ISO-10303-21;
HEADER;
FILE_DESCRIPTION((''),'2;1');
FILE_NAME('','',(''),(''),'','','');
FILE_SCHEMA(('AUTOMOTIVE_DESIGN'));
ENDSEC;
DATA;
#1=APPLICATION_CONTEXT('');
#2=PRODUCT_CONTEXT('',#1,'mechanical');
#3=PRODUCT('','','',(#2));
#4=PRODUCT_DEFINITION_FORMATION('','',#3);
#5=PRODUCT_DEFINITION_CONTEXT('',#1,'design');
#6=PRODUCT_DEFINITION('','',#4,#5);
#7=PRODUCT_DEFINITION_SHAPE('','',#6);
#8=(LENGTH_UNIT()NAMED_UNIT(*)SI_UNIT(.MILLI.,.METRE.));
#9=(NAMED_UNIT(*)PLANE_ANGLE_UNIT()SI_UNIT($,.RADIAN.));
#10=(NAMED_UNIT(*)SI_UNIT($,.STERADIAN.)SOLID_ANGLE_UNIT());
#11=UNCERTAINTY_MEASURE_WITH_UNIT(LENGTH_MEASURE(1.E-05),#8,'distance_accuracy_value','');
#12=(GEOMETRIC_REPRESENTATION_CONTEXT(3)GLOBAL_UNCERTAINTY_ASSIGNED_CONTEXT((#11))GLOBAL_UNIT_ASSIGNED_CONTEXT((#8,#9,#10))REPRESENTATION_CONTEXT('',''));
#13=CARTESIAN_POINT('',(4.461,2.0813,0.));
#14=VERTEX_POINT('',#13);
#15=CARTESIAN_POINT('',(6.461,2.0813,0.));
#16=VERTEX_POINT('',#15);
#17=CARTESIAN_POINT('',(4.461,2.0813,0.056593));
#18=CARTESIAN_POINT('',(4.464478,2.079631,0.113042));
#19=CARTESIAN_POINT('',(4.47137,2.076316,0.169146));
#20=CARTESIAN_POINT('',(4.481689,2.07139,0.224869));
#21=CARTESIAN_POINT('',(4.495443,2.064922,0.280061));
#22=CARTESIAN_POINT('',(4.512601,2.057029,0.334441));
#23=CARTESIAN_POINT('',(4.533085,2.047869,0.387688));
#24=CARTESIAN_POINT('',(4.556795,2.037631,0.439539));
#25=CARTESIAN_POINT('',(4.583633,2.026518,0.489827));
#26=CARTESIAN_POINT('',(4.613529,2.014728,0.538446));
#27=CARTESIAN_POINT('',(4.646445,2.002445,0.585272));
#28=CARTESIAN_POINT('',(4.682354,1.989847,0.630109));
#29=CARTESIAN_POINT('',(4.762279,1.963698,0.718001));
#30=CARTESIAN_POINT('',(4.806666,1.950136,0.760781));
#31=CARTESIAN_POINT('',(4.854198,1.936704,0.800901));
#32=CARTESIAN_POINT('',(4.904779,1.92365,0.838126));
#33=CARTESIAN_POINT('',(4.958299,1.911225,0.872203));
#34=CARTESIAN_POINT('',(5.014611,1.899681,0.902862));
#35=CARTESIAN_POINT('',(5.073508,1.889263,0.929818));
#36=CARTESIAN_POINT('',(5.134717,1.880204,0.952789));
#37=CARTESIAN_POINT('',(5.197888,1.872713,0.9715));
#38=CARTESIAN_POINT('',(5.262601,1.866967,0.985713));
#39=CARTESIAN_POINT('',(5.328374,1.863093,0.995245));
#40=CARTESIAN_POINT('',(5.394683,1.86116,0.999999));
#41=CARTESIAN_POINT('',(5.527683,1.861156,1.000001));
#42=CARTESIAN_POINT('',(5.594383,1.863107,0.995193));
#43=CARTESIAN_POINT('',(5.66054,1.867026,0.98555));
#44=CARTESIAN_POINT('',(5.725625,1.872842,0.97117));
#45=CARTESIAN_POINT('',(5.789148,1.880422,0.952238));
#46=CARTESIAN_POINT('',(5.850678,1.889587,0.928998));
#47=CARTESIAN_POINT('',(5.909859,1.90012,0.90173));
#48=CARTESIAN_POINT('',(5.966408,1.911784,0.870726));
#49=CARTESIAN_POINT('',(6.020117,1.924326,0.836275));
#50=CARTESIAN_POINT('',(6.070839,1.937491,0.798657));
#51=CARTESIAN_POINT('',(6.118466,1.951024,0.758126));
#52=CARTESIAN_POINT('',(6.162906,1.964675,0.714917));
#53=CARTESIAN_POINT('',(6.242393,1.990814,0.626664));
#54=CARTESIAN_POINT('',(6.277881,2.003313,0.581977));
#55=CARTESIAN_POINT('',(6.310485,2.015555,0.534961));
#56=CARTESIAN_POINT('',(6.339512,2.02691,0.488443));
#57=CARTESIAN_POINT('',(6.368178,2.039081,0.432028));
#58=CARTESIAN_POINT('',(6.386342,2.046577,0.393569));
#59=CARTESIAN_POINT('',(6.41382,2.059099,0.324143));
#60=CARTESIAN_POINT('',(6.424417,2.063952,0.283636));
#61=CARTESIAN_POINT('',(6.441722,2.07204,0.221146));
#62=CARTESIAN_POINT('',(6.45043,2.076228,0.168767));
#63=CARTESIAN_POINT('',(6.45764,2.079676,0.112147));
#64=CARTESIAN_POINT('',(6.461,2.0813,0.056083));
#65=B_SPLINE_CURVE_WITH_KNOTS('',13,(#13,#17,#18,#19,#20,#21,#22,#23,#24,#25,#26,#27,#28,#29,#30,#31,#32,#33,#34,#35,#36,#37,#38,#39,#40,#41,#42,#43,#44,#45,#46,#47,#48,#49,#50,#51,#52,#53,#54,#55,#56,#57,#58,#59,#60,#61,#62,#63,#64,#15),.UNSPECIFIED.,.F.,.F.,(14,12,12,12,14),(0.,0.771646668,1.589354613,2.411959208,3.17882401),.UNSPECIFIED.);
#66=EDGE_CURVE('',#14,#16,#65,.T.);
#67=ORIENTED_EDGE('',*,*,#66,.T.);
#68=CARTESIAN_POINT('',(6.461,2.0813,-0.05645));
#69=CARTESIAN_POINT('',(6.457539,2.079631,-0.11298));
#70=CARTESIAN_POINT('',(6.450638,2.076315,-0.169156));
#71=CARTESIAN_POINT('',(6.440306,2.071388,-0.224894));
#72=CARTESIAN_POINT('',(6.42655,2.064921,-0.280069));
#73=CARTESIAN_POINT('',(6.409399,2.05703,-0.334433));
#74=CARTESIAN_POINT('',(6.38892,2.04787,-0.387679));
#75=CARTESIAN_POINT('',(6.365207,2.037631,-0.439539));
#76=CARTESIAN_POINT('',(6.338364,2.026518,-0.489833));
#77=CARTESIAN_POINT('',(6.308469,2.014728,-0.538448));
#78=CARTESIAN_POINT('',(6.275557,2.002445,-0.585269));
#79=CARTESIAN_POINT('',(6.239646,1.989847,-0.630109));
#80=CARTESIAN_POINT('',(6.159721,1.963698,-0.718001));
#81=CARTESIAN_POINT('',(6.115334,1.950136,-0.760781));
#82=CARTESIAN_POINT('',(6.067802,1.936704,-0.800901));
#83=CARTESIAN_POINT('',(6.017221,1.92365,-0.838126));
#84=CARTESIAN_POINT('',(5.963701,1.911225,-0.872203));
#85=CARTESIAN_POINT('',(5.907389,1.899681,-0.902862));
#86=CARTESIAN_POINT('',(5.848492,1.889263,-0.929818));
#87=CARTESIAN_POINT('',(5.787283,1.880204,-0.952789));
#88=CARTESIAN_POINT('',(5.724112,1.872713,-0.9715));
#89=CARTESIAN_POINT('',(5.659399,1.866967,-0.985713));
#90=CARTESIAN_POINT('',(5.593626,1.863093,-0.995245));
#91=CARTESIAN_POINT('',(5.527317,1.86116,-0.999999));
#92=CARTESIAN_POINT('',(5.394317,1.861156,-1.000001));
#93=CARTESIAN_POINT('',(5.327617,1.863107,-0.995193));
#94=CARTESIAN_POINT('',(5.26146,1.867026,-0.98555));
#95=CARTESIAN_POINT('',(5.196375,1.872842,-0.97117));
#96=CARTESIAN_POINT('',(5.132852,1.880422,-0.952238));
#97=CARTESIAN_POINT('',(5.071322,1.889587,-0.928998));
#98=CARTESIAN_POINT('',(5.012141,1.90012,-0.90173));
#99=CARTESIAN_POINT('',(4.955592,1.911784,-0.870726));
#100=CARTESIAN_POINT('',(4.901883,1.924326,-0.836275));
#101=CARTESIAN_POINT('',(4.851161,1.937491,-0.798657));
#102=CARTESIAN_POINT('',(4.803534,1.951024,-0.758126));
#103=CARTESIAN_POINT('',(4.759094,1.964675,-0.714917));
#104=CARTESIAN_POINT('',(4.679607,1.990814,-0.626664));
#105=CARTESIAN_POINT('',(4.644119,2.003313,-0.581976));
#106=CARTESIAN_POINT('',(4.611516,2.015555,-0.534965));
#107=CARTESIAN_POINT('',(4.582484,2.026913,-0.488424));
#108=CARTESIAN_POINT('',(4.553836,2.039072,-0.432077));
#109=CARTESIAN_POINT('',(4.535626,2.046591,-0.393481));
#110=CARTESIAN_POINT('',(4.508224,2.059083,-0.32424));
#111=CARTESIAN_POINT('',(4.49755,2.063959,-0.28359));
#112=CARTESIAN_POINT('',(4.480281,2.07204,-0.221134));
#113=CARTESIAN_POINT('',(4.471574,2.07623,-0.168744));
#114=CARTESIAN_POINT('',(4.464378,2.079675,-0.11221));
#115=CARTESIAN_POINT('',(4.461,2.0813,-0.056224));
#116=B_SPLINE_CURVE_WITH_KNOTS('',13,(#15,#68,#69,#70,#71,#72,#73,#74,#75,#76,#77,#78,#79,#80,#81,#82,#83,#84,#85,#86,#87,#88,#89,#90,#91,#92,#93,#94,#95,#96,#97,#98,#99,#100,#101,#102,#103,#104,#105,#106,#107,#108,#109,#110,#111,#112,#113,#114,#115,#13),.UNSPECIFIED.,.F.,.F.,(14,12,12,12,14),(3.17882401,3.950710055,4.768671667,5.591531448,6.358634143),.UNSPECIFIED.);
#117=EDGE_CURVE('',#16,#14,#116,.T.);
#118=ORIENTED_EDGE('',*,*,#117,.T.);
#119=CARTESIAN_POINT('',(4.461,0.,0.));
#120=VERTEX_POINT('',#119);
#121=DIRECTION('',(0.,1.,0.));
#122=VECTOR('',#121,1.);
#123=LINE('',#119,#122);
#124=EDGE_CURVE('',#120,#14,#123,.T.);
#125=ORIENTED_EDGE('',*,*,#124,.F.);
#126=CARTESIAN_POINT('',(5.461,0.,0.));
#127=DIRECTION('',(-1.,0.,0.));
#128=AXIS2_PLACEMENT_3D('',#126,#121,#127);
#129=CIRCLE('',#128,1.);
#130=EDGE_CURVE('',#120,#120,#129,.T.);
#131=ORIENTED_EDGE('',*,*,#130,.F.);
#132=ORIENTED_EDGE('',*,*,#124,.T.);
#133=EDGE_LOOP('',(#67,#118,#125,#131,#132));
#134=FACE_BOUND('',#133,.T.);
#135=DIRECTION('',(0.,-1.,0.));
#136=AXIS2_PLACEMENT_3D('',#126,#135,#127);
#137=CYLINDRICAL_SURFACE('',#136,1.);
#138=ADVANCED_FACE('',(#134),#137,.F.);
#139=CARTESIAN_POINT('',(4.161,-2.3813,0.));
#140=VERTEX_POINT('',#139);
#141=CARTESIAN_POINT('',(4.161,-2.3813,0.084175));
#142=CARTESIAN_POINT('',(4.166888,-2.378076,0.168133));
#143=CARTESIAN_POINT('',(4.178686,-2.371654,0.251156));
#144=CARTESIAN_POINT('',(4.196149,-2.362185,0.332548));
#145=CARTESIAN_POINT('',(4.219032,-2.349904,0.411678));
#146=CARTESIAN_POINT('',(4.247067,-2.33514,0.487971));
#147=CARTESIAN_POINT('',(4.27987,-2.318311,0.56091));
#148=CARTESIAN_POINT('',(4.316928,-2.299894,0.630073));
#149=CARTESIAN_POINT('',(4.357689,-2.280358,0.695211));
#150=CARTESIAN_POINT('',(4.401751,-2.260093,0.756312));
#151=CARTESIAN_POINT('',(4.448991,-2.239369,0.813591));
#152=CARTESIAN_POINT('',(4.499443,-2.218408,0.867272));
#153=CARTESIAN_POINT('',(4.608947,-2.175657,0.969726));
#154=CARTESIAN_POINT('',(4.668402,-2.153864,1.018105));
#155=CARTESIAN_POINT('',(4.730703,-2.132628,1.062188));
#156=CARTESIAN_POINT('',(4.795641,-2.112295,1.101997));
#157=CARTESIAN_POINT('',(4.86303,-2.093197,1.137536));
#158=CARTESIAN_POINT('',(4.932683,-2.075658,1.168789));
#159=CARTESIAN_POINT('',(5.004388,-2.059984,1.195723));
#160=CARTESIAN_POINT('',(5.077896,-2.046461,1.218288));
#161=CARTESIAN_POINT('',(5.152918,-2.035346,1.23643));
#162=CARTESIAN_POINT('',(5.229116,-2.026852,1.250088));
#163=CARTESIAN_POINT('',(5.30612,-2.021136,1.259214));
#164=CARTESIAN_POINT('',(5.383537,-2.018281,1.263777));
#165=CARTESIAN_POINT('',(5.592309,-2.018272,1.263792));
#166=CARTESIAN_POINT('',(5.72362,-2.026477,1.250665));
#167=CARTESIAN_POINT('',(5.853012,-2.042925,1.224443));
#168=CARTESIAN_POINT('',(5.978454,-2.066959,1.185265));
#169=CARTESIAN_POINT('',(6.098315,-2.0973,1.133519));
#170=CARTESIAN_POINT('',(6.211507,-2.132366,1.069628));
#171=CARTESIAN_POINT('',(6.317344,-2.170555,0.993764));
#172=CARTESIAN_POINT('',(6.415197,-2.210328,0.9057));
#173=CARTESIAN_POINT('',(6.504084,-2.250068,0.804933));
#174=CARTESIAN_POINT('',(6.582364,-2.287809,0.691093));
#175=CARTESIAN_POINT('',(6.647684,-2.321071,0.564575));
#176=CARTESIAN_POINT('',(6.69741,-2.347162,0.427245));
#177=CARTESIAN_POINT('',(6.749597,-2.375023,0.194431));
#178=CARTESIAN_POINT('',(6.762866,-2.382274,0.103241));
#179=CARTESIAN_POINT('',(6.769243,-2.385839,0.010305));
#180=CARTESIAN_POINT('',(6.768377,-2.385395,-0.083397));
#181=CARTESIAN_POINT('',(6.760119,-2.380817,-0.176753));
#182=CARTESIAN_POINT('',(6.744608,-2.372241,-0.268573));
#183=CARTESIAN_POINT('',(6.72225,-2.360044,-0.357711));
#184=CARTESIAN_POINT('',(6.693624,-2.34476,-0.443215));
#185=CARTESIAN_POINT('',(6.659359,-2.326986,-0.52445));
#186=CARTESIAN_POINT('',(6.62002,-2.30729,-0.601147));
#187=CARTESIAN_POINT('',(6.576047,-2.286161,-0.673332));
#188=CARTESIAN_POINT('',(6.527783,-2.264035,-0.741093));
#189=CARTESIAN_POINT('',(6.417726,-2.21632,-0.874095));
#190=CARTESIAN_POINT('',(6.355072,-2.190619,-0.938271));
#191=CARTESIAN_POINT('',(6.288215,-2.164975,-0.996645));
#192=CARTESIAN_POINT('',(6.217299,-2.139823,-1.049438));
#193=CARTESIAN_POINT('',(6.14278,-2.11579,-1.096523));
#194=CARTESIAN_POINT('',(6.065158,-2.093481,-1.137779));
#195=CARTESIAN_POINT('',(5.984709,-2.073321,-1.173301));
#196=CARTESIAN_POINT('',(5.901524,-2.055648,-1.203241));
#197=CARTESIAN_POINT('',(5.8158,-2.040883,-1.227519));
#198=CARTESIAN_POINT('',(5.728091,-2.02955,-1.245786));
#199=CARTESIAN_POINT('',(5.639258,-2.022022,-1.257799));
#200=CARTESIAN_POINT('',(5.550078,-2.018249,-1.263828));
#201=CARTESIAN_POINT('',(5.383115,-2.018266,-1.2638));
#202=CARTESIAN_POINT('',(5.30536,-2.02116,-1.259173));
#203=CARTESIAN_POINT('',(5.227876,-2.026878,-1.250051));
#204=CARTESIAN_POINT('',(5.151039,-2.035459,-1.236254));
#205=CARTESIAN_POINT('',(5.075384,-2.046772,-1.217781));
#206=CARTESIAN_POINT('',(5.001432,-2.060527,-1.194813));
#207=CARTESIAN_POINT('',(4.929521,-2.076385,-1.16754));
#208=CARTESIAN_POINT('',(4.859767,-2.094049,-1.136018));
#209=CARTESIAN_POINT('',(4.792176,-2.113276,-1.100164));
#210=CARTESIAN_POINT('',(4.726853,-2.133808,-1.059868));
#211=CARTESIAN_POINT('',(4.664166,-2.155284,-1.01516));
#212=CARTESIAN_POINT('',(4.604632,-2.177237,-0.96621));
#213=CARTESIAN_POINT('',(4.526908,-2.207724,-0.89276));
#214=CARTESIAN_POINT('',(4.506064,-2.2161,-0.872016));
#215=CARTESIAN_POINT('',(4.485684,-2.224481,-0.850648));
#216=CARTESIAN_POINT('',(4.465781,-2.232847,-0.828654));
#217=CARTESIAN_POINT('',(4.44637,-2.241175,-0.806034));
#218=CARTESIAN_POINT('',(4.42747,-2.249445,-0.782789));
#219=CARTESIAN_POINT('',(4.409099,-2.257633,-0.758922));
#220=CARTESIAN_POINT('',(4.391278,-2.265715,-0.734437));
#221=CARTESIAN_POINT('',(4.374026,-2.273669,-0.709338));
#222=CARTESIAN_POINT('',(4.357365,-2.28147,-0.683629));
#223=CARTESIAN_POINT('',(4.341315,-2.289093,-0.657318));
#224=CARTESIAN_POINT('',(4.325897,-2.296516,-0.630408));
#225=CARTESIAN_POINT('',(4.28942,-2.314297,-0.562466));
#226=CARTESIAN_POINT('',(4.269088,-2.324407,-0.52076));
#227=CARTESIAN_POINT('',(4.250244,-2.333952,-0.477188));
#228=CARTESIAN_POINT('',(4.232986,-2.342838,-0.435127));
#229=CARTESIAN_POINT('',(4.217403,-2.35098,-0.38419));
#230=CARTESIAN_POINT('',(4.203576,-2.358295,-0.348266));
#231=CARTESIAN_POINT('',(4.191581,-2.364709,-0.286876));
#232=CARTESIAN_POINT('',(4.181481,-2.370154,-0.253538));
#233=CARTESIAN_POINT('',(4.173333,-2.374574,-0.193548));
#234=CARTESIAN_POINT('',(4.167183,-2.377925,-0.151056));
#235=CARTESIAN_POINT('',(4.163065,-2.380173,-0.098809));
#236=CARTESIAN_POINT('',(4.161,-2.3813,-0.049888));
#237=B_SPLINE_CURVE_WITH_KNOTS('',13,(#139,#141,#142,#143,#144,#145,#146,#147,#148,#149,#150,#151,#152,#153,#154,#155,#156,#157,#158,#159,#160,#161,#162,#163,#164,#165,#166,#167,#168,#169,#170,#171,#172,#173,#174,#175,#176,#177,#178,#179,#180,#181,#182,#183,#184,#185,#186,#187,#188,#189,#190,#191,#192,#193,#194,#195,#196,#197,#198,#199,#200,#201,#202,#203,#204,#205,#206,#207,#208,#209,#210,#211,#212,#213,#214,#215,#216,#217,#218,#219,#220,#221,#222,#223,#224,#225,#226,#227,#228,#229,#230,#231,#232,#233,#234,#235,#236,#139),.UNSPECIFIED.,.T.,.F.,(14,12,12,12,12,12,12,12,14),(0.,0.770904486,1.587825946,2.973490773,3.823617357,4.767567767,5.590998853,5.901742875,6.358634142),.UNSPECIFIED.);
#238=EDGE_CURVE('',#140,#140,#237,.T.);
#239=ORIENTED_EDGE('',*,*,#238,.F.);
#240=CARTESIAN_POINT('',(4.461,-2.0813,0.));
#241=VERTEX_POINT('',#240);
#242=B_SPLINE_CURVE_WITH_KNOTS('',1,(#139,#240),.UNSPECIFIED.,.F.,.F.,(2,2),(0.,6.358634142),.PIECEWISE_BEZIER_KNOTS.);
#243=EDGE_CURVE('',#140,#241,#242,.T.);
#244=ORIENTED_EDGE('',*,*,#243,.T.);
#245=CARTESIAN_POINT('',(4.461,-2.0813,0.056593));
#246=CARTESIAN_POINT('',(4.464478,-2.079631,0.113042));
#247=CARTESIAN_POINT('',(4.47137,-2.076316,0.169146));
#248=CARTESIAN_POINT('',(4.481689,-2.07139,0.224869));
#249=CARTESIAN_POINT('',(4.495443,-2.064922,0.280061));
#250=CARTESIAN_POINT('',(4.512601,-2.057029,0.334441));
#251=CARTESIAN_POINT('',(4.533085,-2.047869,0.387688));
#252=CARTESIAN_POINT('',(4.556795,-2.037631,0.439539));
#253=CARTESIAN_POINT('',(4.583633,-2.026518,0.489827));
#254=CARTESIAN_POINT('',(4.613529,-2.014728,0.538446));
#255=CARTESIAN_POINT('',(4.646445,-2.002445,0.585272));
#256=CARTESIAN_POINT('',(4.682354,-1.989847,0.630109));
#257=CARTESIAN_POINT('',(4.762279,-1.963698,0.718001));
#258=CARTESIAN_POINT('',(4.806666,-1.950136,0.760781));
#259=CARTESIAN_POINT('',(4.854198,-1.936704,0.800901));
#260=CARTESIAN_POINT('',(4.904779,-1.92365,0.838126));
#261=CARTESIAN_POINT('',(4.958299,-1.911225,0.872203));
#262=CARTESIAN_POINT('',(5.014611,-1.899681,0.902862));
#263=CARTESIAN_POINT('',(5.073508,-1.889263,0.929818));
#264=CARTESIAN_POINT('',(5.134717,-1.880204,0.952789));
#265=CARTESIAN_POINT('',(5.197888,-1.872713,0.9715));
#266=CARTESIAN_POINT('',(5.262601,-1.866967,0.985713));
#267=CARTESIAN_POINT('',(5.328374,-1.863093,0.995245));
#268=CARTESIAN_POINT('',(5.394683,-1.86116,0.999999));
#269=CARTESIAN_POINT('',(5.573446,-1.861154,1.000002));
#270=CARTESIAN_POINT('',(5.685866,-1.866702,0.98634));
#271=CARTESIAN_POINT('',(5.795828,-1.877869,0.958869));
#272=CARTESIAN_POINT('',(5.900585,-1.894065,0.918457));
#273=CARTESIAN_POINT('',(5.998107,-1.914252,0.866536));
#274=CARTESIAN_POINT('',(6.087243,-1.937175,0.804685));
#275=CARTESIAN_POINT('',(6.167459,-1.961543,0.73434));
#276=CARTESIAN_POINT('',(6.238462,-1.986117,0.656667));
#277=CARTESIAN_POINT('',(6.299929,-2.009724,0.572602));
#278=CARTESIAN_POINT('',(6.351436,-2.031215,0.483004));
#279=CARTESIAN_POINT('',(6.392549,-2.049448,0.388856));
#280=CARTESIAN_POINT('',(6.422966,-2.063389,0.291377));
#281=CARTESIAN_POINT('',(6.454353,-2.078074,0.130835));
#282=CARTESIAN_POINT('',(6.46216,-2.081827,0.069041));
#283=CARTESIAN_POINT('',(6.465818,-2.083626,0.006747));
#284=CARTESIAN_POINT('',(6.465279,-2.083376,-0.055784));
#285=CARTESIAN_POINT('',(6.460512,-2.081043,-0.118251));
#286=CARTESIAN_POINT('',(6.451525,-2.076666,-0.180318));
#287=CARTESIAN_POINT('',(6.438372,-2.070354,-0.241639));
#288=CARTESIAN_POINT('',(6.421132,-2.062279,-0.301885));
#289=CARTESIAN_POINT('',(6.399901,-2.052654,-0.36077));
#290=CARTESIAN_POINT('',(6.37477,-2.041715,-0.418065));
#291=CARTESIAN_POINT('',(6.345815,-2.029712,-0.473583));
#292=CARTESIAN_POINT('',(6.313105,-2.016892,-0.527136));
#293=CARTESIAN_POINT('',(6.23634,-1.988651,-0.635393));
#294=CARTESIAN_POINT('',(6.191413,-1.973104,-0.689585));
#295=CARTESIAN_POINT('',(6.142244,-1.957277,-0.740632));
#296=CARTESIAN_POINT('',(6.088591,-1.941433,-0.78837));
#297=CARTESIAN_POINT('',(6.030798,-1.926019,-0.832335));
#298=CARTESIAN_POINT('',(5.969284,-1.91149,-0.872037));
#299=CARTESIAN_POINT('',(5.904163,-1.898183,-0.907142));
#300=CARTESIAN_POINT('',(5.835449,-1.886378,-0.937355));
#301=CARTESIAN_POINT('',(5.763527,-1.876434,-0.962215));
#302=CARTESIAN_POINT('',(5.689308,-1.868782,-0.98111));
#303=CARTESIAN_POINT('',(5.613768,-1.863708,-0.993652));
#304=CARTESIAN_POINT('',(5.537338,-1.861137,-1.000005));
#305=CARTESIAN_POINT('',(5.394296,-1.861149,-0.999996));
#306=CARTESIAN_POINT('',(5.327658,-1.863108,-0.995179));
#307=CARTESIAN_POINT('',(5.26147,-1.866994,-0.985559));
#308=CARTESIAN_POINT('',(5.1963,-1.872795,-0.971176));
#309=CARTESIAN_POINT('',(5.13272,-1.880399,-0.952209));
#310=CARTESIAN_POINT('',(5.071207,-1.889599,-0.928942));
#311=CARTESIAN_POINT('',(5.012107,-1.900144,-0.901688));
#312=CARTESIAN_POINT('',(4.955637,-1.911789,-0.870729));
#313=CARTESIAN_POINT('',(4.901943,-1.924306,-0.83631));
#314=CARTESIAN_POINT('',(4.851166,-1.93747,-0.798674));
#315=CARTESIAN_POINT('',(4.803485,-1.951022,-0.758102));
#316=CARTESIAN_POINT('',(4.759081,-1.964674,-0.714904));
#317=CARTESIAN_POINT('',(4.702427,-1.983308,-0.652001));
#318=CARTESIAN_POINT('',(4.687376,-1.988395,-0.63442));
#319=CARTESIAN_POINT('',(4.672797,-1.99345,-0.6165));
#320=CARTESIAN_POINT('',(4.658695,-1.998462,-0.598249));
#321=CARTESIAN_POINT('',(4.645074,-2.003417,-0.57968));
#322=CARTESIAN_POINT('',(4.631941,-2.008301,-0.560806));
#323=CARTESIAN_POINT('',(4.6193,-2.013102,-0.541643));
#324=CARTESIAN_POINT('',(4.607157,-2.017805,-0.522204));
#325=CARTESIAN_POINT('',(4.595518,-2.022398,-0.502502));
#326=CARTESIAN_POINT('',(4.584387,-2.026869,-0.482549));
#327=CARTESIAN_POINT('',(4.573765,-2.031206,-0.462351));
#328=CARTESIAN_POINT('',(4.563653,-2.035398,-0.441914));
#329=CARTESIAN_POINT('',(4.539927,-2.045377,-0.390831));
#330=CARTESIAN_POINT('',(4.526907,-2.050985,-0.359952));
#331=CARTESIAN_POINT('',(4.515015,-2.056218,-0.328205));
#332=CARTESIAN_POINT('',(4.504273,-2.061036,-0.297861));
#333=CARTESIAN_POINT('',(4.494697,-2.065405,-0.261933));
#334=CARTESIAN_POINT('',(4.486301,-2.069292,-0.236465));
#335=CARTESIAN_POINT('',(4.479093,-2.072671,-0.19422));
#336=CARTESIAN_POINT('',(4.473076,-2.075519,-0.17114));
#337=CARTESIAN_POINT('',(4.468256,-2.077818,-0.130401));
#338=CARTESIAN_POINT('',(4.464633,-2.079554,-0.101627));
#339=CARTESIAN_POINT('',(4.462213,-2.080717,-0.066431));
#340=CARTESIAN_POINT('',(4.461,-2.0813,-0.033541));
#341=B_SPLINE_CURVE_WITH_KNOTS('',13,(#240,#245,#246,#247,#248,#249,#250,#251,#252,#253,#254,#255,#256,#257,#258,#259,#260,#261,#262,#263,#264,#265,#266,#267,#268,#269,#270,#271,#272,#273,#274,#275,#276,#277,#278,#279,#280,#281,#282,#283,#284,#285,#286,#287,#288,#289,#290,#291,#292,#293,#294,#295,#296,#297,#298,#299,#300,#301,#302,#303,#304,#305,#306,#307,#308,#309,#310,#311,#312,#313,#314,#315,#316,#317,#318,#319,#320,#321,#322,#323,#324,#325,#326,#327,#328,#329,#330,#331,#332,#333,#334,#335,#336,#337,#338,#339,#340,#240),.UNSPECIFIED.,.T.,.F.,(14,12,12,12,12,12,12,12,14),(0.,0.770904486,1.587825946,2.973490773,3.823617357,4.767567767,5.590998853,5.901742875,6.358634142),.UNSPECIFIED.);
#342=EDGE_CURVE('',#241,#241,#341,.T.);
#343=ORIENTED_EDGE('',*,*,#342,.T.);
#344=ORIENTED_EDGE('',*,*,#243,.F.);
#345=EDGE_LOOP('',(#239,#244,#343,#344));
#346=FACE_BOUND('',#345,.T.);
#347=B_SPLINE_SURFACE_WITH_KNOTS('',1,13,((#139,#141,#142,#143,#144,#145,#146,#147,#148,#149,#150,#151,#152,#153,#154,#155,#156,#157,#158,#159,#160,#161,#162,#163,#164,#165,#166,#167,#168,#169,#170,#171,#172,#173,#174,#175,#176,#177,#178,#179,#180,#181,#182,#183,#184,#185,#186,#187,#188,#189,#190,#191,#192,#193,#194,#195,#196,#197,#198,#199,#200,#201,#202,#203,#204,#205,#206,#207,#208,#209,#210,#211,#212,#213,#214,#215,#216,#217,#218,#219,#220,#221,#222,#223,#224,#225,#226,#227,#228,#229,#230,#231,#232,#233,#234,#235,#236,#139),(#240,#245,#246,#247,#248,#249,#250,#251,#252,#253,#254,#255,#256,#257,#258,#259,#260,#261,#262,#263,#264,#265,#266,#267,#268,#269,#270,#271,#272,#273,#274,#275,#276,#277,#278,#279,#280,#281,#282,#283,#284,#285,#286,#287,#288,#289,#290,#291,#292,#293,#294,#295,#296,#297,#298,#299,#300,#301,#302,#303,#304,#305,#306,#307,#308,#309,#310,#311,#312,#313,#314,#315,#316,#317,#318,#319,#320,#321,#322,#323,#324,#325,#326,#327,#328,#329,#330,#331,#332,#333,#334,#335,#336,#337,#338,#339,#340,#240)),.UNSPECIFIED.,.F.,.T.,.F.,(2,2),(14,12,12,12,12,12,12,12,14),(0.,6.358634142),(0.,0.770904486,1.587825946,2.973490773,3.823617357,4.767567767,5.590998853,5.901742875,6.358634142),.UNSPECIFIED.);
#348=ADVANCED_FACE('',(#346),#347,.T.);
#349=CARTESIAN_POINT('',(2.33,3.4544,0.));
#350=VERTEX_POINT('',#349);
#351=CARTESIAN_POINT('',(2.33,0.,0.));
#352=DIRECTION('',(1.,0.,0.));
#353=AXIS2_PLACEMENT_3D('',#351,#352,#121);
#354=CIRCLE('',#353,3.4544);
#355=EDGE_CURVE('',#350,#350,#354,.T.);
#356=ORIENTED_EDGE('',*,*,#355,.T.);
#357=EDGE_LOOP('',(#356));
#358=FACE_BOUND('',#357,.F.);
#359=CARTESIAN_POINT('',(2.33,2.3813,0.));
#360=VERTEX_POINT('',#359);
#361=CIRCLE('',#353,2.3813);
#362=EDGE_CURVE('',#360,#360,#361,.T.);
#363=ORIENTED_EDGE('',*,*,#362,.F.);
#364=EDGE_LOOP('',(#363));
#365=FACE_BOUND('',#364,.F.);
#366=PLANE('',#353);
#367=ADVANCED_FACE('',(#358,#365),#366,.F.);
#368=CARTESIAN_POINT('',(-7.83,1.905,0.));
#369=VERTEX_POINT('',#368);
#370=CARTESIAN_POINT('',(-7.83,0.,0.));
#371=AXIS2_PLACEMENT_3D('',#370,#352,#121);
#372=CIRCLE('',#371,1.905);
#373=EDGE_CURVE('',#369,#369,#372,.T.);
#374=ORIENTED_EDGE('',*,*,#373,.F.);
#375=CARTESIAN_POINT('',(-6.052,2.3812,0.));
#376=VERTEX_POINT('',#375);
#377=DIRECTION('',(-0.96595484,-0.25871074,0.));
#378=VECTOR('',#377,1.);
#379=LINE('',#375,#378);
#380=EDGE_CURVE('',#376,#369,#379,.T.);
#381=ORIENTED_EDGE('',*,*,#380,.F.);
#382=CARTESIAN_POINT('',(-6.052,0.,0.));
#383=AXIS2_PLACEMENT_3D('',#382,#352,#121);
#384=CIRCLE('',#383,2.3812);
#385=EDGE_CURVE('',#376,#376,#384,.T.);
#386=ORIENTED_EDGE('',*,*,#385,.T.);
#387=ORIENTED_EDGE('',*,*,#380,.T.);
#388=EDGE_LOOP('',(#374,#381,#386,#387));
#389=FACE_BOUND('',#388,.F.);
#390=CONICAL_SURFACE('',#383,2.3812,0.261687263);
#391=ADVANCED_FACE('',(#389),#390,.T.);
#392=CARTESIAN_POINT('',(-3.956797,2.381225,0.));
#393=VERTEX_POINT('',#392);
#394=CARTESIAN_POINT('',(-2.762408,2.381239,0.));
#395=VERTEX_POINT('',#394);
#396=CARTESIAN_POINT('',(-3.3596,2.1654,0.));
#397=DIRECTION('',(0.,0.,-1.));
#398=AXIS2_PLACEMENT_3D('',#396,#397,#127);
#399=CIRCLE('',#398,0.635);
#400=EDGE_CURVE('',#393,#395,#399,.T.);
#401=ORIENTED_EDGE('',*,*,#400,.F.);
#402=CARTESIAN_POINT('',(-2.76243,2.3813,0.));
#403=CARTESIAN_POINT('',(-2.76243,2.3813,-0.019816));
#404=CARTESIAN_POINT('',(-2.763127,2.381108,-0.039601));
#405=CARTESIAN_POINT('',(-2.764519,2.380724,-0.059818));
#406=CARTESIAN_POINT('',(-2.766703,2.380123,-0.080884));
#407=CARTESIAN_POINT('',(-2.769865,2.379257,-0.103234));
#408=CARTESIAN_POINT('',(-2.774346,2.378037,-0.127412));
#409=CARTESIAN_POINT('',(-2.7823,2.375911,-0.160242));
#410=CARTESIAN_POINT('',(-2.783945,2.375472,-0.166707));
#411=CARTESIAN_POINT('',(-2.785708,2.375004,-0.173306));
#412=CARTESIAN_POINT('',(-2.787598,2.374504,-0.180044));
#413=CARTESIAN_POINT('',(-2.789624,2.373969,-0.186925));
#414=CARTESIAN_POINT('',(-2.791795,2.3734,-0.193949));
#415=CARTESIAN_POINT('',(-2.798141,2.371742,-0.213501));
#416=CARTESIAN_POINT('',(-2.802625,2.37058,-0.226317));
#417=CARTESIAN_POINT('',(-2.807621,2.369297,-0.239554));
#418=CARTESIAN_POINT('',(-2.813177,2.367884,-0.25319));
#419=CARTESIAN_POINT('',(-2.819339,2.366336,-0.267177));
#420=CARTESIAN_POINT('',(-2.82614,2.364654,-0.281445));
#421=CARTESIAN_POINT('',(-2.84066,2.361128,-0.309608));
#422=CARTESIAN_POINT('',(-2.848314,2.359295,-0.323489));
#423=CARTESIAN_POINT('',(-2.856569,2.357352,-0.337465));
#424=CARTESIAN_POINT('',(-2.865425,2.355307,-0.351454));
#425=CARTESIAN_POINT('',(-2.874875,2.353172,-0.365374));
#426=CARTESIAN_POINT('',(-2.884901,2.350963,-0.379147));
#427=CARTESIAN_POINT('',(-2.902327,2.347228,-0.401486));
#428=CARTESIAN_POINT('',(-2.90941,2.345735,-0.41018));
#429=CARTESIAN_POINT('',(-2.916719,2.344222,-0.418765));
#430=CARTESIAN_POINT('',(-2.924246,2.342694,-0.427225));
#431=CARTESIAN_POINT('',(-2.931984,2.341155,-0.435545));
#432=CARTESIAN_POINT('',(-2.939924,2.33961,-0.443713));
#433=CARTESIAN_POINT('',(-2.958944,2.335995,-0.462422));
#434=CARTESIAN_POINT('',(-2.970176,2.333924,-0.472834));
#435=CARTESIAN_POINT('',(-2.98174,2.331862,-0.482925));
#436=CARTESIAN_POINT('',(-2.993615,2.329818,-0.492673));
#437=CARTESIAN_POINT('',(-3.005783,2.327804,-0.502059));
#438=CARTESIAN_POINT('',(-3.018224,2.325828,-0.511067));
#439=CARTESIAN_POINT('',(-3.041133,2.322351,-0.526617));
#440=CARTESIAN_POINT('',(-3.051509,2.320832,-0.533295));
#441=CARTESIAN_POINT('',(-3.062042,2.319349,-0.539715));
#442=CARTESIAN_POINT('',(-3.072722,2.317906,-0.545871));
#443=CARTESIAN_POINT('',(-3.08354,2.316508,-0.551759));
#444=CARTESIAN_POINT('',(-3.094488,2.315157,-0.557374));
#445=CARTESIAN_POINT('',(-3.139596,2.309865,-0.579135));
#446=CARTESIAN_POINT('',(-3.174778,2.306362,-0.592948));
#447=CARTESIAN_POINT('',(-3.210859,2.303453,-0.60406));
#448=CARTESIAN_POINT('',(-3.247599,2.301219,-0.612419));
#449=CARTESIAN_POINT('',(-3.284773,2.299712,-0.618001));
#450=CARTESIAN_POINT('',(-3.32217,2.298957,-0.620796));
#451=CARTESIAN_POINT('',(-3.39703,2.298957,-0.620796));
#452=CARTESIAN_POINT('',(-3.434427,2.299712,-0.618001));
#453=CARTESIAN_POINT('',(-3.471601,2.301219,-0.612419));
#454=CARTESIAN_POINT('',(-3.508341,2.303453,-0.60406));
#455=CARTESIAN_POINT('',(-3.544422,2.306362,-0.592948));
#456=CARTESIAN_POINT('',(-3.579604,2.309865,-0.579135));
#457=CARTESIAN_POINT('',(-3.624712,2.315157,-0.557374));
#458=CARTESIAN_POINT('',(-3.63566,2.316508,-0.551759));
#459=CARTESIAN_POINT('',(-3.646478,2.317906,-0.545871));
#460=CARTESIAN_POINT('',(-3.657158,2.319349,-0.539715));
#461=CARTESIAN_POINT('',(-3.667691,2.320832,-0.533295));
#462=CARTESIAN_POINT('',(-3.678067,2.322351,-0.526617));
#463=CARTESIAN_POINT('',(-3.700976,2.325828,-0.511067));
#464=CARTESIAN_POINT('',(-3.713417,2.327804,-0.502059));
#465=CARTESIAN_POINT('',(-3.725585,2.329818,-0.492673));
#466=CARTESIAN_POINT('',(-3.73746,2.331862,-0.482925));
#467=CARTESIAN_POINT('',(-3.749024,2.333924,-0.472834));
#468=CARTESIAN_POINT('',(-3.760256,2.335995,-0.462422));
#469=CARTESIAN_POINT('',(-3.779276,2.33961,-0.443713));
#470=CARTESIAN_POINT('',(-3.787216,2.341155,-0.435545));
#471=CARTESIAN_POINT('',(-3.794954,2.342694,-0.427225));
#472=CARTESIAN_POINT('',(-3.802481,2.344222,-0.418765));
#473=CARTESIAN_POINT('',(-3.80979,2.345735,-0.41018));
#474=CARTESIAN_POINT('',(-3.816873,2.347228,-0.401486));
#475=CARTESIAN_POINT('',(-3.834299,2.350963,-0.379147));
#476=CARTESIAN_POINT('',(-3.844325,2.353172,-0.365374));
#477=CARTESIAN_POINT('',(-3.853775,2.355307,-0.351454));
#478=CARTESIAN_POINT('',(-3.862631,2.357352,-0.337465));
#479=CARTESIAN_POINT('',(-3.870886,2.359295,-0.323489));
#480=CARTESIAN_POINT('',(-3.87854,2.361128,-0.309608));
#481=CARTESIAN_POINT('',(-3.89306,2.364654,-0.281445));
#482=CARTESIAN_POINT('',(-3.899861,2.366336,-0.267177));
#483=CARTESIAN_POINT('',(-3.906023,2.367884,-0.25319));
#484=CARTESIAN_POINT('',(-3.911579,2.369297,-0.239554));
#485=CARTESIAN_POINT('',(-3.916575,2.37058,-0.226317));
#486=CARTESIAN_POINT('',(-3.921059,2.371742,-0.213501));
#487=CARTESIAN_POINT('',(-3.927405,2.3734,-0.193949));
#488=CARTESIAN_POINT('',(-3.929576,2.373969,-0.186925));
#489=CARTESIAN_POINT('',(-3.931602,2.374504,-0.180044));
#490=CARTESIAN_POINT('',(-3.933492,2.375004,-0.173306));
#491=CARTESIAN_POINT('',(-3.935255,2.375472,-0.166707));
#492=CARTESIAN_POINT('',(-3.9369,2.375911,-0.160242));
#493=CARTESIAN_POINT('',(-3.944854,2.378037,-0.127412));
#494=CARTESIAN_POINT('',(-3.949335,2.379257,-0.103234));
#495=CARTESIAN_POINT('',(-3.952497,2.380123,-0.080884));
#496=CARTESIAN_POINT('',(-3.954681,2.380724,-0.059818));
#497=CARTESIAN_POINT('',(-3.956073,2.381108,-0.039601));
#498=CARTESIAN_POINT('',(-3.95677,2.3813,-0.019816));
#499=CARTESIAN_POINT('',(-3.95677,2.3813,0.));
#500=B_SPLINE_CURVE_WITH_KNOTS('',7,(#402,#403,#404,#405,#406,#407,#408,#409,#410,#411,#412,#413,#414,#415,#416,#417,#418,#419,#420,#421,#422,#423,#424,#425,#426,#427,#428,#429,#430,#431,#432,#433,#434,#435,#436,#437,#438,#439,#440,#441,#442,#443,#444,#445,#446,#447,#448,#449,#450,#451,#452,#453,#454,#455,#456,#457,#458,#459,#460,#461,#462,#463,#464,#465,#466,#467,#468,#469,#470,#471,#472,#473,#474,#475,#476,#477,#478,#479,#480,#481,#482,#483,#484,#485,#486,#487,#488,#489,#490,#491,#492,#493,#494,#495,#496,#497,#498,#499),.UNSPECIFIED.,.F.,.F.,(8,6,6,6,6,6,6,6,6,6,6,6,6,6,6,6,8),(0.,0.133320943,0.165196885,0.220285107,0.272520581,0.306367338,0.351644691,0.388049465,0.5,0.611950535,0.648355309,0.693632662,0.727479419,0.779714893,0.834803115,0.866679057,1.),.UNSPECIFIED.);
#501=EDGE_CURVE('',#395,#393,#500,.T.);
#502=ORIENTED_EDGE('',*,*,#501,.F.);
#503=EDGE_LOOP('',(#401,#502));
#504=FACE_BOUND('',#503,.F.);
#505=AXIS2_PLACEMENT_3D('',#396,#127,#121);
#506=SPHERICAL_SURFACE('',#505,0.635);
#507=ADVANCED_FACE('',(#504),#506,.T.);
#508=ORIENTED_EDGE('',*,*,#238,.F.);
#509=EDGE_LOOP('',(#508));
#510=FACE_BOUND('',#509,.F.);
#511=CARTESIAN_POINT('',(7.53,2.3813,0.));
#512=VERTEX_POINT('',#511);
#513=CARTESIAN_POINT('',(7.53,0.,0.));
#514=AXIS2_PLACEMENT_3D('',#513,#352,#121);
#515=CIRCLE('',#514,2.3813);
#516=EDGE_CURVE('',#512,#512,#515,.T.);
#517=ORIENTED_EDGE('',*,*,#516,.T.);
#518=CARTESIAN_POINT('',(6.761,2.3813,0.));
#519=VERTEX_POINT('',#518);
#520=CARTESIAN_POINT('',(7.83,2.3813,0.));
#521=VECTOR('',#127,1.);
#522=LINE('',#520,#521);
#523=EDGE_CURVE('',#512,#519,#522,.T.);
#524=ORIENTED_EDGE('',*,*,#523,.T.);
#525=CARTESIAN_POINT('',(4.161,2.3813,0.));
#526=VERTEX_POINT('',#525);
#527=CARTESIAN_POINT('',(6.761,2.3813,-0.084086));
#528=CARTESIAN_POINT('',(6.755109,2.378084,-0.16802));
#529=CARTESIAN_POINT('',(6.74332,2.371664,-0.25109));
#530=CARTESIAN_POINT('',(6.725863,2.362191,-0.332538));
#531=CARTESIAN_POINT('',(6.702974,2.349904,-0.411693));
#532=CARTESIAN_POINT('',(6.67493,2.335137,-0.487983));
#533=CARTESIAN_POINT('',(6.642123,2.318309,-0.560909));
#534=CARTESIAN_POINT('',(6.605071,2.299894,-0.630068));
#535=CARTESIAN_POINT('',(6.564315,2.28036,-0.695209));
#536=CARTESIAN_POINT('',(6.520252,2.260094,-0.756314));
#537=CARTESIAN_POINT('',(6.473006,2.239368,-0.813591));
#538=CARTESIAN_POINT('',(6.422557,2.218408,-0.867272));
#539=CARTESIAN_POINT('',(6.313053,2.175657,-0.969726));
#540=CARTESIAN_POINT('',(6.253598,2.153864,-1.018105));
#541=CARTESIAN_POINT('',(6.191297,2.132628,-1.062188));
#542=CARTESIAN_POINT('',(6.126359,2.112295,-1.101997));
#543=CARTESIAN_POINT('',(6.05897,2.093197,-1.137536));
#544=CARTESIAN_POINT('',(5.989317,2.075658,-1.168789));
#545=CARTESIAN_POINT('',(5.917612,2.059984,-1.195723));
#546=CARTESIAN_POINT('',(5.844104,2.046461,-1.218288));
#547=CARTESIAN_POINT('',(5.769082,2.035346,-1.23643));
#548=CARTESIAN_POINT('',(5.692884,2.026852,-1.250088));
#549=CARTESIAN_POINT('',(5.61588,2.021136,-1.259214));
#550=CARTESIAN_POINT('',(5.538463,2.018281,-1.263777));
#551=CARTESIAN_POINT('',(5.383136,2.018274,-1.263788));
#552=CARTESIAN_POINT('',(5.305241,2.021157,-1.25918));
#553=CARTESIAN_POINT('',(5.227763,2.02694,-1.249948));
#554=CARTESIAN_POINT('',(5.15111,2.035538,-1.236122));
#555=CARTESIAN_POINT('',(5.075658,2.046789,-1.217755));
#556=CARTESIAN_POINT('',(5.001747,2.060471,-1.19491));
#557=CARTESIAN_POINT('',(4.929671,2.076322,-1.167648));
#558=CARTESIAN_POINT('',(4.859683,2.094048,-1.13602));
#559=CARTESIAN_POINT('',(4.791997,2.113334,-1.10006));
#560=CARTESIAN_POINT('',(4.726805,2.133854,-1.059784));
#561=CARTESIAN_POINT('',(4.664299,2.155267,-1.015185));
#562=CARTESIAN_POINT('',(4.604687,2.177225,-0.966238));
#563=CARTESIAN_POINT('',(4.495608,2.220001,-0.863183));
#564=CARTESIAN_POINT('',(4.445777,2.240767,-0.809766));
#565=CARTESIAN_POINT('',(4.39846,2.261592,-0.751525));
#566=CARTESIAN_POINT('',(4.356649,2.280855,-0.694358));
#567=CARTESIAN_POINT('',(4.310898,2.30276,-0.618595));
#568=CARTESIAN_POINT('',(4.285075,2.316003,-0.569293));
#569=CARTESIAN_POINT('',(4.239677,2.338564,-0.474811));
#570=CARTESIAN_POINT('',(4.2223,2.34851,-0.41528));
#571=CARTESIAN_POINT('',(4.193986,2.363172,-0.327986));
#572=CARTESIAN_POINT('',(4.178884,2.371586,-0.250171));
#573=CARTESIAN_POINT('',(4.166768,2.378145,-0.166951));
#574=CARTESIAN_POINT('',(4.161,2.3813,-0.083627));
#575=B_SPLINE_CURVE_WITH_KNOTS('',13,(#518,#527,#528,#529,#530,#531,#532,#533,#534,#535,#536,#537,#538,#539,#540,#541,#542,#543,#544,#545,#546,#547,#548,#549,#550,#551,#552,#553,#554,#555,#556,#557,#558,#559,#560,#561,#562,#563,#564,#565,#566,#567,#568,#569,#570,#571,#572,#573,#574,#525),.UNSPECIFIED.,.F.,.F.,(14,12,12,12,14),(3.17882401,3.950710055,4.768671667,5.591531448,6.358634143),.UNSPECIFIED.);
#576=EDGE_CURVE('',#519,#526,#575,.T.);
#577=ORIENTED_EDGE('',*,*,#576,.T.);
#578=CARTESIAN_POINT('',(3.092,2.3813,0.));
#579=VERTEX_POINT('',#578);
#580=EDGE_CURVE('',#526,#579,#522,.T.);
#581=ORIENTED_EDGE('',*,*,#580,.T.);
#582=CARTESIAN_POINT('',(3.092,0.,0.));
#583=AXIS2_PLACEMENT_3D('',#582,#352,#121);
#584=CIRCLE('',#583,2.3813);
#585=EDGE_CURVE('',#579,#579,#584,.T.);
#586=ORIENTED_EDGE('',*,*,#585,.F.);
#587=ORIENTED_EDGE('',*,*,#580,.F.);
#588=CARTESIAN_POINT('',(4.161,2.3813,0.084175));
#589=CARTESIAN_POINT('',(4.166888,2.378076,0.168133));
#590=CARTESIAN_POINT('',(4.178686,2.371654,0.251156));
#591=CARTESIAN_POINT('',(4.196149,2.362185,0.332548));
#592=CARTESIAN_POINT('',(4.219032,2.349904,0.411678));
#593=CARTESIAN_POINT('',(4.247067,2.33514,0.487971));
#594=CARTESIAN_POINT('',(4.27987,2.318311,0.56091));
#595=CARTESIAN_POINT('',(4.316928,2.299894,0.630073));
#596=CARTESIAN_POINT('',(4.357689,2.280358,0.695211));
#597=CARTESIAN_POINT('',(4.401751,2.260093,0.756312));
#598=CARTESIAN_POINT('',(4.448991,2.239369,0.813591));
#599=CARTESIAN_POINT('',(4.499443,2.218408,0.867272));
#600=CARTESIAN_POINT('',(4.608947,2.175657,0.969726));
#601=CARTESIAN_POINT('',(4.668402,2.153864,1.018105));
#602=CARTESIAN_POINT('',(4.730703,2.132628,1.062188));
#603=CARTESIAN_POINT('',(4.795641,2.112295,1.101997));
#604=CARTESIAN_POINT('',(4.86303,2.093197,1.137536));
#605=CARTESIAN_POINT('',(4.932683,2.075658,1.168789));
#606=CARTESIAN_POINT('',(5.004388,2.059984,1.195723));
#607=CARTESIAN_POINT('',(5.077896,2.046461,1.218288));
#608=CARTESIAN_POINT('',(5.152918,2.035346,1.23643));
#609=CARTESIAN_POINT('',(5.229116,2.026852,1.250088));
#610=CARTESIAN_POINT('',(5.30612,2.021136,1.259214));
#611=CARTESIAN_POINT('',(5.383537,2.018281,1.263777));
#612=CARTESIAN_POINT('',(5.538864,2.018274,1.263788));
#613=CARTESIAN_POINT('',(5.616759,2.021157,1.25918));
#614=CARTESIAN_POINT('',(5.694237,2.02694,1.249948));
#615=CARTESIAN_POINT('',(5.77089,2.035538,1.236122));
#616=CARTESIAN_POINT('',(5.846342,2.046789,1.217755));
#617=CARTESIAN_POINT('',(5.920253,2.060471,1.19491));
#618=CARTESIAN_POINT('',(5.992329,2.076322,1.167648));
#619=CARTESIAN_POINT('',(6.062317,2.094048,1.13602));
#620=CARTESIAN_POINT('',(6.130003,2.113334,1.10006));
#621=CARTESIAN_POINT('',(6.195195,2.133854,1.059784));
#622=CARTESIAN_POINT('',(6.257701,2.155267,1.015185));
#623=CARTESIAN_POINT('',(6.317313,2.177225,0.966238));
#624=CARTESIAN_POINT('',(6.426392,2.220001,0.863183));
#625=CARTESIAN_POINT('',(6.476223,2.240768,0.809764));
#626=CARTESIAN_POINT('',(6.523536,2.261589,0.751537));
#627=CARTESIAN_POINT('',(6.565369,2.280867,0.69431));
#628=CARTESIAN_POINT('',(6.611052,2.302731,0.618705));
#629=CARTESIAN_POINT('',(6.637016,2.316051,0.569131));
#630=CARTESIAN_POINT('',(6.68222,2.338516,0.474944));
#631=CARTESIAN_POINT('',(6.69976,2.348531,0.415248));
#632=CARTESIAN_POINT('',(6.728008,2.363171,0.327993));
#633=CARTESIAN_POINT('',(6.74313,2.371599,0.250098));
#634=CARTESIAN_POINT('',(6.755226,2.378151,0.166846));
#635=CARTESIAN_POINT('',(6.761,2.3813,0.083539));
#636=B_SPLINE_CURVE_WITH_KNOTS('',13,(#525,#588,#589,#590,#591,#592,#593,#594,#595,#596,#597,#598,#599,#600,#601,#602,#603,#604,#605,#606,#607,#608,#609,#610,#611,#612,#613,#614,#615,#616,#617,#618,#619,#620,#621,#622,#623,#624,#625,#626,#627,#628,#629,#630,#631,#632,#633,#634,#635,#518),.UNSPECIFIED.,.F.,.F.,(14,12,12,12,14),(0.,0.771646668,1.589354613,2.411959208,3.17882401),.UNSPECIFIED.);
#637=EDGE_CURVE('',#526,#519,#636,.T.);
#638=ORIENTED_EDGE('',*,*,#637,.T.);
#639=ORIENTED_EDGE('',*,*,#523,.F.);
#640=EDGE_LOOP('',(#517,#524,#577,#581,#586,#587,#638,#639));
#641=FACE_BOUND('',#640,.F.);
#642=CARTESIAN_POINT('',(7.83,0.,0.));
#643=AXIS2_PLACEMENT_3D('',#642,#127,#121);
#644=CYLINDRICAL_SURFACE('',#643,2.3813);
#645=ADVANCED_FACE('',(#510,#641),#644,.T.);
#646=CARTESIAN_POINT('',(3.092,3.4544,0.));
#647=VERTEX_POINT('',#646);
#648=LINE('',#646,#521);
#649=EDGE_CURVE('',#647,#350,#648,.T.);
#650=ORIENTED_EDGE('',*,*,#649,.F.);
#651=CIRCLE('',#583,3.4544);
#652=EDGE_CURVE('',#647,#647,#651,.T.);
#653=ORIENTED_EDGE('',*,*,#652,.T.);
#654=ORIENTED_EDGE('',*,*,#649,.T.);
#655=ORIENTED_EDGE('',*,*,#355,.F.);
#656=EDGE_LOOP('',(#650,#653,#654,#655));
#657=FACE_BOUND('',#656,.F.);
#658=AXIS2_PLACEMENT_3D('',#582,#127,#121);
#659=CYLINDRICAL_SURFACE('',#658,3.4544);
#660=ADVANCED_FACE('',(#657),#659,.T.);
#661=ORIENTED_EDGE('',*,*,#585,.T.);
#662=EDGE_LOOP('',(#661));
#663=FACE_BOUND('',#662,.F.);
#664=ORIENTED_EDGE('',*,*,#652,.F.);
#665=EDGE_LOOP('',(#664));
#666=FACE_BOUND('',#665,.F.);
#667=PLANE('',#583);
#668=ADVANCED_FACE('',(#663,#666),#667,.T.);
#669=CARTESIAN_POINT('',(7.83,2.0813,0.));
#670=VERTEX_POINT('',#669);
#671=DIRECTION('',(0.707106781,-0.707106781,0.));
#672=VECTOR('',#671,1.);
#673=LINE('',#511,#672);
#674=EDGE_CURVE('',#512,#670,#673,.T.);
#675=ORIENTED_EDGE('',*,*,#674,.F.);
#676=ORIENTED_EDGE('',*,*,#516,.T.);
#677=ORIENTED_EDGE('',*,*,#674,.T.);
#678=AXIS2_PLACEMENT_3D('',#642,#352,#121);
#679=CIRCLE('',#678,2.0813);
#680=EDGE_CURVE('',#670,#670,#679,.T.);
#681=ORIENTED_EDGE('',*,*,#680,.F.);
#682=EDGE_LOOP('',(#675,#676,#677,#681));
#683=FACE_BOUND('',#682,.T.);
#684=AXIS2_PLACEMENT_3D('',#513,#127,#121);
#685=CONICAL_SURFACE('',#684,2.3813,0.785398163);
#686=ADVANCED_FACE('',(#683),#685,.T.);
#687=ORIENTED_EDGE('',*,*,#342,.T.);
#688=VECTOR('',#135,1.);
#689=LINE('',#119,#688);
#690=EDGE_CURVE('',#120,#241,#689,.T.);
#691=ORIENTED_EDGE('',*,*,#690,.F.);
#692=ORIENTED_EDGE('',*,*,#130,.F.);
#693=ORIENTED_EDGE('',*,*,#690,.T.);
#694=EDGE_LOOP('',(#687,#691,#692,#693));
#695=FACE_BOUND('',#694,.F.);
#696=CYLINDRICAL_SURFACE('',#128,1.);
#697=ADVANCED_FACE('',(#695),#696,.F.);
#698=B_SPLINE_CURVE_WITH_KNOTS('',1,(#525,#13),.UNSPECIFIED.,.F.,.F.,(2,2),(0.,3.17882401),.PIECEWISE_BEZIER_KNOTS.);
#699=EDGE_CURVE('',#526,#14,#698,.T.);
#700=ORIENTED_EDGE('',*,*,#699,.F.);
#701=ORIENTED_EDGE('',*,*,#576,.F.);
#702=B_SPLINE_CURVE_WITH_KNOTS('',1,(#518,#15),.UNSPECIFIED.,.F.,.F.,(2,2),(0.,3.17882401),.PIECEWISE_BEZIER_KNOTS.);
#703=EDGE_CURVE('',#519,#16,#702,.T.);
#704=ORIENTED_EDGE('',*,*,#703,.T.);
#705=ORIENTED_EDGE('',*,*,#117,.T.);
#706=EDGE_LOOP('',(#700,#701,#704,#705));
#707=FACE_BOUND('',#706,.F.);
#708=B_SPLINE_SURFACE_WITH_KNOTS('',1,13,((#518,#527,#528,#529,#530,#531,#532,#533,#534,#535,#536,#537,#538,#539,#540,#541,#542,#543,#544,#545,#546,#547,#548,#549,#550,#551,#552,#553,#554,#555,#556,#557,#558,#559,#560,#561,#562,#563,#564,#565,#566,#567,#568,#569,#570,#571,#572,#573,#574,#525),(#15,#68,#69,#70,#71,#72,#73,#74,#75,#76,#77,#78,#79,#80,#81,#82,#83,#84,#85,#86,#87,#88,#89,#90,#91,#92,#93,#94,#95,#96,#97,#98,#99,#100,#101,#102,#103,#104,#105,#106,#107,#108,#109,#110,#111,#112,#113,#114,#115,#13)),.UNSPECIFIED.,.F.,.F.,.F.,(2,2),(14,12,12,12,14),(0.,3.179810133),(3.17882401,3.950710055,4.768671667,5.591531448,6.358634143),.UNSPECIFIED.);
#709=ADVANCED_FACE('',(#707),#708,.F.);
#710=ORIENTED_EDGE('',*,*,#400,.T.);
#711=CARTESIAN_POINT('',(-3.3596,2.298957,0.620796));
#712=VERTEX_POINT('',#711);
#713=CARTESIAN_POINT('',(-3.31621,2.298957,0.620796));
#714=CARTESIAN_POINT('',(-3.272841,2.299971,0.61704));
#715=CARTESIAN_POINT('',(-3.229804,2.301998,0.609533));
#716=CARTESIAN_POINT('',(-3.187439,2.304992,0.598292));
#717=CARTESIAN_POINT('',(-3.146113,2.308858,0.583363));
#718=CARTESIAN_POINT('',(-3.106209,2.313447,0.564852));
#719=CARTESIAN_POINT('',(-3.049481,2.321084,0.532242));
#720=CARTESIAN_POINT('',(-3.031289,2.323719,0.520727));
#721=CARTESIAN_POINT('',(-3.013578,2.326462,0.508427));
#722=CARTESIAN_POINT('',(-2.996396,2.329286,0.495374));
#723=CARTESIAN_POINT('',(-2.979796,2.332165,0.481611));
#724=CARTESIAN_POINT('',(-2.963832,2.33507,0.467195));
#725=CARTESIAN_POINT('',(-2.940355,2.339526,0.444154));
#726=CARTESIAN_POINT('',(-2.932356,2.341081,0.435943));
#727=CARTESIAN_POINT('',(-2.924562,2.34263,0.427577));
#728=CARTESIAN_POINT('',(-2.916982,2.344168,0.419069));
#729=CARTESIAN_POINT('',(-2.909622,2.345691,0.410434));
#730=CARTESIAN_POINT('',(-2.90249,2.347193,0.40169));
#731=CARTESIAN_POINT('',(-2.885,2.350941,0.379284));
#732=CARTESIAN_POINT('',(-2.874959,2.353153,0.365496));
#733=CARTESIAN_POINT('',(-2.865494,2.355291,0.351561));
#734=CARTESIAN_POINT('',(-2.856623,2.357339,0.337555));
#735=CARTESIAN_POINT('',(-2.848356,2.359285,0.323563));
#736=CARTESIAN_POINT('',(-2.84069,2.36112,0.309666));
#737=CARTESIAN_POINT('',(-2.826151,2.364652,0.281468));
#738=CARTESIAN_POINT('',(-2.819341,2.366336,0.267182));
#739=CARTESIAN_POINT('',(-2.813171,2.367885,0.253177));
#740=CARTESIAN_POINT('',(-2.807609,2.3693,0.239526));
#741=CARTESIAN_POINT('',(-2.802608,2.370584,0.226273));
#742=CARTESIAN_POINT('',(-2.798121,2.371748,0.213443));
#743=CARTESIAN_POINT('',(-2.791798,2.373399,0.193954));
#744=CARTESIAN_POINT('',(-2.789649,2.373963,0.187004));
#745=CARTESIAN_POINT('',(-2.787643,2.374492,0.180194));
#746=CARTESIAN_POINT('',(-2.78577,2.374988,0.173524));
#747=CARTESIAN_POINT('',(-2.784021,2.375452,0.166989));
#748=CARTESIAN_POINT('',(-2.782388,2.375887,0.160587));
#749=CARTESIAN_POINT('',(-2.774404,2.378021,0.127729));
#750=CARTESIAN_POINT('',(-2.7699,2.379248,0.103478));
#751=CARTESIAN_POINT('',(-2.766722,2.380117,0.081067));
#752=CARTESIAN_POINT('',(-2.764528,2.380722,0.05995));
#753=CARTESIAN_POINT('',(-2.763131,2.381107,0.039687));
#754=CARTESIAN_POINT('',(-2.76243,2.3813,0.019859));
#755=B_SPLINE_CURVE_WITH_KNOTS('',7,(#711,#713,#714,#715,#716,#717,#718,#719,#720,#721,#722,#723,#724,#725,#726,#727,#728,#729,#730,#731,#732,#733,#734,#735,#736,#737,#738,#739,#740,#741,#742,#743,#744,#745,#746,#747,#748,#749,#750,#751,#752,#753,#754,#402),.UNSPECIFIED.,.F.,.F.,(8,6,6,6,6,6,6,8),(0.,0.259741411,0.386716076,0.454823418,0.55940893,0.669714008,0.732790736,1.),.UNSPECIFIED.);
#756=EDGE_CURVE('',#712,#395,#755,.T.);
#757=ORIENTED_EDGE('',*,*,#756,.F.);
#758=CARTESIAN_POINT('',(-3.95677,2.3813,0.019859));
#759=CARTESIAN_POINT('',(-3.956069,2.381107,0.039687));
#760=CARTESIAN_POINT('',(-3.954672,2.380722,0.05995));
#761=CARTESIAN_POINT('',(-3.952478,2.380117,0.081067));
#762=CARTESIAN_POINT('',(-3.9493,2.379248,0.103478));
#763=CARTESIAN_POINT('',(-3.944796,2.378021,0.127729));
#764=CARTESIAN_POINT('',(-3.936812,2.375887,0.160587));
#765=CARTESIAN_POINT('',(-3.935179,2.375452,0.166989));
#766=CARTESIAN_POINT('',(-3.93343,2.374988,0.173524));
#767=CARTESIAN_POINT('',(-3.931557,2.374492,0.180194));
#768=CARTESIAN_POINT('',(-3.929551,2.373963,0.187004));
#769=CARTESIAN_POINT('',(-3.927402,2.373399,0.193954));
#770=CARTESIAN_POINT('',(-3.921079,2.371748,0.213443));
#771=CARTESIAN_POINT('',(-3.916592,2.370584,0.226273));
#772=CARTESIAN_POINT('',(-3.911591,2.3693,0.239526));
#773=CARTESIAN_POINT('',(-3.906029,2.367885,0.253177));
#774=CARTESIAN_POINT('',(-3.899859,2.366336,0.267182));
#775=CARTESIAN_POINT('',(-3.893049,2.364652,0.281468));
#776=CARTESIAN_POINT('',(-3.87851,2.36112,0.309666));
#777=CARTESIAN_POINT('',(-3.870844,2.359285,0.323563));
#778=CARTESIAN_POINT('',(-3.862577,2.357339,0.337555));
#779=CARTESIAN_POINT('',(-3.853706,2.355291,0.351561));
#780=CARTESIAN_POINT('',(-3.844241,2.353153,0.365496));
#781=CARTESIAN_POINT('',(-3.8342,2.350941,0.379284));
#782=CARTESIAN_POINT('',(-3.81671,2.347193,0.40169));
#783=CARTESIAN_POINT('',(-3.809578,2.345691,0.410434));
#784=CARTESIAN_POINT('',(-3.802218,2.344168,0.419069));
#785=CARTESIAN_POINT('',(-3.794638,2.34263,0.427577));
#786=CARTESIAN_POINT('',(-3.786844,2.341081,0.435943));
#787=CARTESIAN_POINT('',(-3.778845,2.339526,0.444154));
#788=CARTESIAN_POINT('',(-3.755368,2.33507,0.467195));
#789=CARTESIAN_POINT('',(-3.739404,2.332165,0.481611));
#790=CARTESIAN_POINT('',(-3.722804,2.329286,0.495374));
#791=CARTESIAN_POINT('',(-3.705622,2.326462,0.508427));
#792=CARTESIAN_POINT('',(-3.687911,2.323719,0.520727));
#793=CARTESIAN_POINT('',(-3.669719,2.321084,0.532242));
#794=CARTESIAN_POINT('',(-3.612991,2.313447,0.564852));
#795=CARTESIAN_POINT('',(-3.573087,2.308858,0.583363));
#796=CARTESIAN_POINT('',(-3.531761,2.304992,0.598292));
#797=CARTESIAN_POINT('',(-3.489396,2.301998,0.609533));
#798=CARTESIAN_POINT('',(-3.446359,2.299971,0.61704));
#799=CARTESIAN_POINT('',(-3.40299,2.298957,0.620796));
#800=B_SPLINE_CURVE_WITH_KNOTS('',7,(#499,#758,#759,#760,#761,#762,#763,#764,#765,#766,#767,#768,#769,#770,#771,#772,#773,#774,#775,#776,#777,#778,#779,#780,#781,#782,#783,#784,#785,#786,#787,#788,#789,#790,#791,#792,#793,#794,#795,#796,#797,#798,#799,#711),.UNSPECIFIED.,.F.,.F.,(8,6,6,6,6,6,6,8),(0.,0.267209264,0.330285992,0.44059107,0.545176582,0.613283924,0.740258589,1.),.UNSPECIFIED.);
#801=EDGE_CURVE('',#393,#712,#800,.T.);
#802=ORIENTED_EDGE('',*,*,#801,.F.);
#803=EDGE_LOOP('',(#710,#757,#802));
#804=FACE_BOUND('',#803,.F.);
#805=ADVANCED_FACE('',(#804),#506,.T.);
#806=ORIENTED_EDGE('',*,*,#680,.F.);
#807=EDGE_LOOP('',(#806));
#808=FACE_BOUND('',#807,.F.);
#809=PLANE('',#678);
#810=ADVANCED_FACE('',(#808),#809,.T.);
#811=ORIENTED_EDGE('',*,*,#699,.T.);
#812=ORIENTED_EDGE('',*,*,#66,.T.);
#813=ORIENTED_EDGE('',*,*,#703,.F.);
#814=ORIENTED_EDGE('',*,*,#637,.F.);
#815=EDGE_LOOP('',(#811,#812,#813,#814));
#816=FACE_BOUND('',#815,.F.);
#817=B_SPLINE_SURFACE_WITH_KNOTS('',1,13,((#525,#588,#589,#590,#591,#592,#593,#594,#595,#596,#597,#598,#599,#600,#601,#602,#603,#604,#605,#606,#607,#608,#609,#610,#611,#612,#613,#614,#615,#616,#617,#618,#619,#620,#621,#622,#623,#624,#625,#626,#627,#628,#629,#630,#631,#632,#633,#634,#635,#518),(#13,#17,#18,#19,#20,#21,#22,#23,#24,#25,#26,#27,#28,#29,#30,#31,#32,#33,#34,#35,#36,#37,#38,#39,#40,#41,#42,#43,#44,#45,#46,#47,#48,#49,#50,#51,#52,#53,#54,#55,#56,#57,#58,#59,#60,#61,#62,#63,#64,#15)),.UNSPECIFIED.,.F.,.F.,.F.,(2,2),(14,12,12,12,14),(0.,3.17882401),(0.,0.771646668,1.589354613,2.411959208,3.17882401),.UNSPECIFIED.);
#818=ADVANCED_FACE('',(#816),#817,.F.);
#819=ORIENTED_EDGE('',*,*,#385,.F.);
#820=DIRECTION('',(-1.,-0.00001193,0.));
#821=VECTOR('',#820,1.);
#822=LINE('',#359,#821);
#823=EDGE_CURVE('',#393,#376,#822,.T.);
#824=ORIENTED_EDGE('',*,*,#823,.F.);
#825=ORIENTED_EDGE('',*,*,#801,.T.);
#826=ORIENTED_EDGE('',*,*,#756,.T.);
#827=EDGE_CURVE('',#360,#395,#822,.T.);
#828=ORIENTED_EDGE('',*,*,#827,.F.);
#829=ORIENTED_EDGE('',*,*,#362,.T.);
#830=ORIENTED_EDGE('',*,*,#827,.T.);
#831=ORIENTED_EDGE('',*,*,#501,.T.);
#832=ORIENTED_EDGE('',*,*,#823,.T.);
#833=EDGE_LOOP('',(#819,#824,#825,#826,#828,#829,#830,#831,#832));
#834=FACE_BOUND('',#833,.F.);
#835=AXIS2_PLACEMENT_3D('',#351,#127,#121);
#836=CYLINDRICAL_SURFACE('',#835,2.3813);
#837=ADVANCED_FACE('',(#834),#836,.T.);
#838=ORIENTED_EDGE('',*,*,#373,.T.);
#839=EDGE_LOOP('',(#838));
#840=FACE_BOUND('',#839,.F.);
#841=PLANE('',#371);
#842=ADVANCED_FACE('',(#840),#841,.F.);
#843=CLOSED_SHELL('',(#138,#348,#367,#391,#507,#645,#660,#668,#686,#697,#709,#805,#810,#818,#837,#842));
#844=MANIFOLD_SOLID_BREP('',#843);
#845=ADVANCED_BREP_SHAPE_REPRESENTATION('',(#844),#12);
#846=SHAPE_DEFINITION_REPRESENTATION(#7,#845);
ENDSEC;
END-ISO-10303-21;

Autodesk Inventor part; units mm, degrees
ref_plane "YZ Plane" through (0, 0, 0) normal (1, 0, 0) x (0, 1, 0)
ref_plane "XZ Plane" through (0, 0, 0) normal (0, 1, 0) x (-1, 0, 0)
ref_plane "XY Plane" through (0, 0, 0) normal (0, 0, 1) x (1, 0, 0)
sketch "Sketch1" plane through (0, 0, 0) normal (0, 0, 1) x (1, 0, 0)
  line L0 (-7.83, 0) -> (7.83, 0)
  line L1 (7.83, 0) -> (7.83, 2.3813)
  line L2 (7.83, 2.3813) -> (3.092, 2.3813)
  line L3 (3.092, 2.3813) -> (3.092, 3.4544)
  line L4 (3.092, 3.4544) -> (2.33, 3.4544)
  line L5 (2.33, 3.4544) -> (2.33, 2.3813)
  line L6 (2.33, 2.3813) -> (-6.052, 2.3812)
  line L7 (-6.052, 2.3812) -> (-7.83, 1.905)
  line L8 (-7.83, 1.905) -> (-7.83, 0)
  point P0 (0, 0)
  point P1 (0, 0)
  dimension "d0" = 4.7625
  dimension "d1" = 10.16
  dimension "d2" = 6.9088
  dimension "d3" = 1.778
  dimension "d4" = 3.81
  dimension "d5" = 0.762
  dimension "d6" = 5.5
  dimension "d7" = 4.738
revolve "Revolution1" add sketch "Sketch1" angle 360 about axis through (-7.83, 0, 0) along (1, 0, 0)
sketch "Sketch2" plane through (0, 0, 0) normal (0, 1, 0) x (-1, 0, 0)
  line L0 (-3.092, 2.3812) -> (-3.092, -2.3812) projected
  line L1 (-3.092, 0) -> (-7.83, 0) construction
  circle A0 centre (-5.461, 0) radius 1
  line L2 (-7.83, 2.3812) -> (-7.83, -2.3812) projected
  point P0 (0, 0)
  point P1 (-7.33, 2.3812)
  point P2 (-7.33, -2.3812)
  dimension "d12" = 2
extrude "Extrusion1" cut sketch "Sketch2" along normal through all both and the other way through all
chamfer "Chamfer2" distance 0.3 angle 45 4 edges at (7.83, -2.3812, 0) (5.4611, 2.1611, 1) (5.4609, 2.1611, -1) (6.461, -2.3812, -0.003)
sketch "Sketch3" plane through (0, 0, 0) normal (0, 0, 1) x (1, 0, 0)
  line L0 (-6.052, 2.3812) -> (2.33, 2.3812) projected
  line L1 (-7.83, -1.905) -> (-7.83, 1.905) projected
  arc A0 (-2.7246, 2.1654) -> (-3.9946, 2.1654) centre (-3.3596, 2.1654) ccw
  line L2 (-3.9946, 2.1654) -> (-2.7246, 2.1654)
  line L3 (-6.052, -2.3812) -> (2.33, -2.3812) projected
  line L4 (2.33, -3.4544) -> (2.33, 3.4544) projected
  point P0 (0, 0)
  point P1 (-3.3596, 2.8004)
  point P2 (-2.7624, 2.3812)
  dimension "d18" = 4.4704
  dimension "d20" = 5.1816
  dimension "d21" = 1.27
  dimension "d22" = 5.0924
revolve "Revolution2" add sketch "Sketch3" angle 360 about axis through (-3.9946, 2.1654, 0) along (1, 0, 0)
properties part number "Pin_RBF" material "Stainless Steel"
